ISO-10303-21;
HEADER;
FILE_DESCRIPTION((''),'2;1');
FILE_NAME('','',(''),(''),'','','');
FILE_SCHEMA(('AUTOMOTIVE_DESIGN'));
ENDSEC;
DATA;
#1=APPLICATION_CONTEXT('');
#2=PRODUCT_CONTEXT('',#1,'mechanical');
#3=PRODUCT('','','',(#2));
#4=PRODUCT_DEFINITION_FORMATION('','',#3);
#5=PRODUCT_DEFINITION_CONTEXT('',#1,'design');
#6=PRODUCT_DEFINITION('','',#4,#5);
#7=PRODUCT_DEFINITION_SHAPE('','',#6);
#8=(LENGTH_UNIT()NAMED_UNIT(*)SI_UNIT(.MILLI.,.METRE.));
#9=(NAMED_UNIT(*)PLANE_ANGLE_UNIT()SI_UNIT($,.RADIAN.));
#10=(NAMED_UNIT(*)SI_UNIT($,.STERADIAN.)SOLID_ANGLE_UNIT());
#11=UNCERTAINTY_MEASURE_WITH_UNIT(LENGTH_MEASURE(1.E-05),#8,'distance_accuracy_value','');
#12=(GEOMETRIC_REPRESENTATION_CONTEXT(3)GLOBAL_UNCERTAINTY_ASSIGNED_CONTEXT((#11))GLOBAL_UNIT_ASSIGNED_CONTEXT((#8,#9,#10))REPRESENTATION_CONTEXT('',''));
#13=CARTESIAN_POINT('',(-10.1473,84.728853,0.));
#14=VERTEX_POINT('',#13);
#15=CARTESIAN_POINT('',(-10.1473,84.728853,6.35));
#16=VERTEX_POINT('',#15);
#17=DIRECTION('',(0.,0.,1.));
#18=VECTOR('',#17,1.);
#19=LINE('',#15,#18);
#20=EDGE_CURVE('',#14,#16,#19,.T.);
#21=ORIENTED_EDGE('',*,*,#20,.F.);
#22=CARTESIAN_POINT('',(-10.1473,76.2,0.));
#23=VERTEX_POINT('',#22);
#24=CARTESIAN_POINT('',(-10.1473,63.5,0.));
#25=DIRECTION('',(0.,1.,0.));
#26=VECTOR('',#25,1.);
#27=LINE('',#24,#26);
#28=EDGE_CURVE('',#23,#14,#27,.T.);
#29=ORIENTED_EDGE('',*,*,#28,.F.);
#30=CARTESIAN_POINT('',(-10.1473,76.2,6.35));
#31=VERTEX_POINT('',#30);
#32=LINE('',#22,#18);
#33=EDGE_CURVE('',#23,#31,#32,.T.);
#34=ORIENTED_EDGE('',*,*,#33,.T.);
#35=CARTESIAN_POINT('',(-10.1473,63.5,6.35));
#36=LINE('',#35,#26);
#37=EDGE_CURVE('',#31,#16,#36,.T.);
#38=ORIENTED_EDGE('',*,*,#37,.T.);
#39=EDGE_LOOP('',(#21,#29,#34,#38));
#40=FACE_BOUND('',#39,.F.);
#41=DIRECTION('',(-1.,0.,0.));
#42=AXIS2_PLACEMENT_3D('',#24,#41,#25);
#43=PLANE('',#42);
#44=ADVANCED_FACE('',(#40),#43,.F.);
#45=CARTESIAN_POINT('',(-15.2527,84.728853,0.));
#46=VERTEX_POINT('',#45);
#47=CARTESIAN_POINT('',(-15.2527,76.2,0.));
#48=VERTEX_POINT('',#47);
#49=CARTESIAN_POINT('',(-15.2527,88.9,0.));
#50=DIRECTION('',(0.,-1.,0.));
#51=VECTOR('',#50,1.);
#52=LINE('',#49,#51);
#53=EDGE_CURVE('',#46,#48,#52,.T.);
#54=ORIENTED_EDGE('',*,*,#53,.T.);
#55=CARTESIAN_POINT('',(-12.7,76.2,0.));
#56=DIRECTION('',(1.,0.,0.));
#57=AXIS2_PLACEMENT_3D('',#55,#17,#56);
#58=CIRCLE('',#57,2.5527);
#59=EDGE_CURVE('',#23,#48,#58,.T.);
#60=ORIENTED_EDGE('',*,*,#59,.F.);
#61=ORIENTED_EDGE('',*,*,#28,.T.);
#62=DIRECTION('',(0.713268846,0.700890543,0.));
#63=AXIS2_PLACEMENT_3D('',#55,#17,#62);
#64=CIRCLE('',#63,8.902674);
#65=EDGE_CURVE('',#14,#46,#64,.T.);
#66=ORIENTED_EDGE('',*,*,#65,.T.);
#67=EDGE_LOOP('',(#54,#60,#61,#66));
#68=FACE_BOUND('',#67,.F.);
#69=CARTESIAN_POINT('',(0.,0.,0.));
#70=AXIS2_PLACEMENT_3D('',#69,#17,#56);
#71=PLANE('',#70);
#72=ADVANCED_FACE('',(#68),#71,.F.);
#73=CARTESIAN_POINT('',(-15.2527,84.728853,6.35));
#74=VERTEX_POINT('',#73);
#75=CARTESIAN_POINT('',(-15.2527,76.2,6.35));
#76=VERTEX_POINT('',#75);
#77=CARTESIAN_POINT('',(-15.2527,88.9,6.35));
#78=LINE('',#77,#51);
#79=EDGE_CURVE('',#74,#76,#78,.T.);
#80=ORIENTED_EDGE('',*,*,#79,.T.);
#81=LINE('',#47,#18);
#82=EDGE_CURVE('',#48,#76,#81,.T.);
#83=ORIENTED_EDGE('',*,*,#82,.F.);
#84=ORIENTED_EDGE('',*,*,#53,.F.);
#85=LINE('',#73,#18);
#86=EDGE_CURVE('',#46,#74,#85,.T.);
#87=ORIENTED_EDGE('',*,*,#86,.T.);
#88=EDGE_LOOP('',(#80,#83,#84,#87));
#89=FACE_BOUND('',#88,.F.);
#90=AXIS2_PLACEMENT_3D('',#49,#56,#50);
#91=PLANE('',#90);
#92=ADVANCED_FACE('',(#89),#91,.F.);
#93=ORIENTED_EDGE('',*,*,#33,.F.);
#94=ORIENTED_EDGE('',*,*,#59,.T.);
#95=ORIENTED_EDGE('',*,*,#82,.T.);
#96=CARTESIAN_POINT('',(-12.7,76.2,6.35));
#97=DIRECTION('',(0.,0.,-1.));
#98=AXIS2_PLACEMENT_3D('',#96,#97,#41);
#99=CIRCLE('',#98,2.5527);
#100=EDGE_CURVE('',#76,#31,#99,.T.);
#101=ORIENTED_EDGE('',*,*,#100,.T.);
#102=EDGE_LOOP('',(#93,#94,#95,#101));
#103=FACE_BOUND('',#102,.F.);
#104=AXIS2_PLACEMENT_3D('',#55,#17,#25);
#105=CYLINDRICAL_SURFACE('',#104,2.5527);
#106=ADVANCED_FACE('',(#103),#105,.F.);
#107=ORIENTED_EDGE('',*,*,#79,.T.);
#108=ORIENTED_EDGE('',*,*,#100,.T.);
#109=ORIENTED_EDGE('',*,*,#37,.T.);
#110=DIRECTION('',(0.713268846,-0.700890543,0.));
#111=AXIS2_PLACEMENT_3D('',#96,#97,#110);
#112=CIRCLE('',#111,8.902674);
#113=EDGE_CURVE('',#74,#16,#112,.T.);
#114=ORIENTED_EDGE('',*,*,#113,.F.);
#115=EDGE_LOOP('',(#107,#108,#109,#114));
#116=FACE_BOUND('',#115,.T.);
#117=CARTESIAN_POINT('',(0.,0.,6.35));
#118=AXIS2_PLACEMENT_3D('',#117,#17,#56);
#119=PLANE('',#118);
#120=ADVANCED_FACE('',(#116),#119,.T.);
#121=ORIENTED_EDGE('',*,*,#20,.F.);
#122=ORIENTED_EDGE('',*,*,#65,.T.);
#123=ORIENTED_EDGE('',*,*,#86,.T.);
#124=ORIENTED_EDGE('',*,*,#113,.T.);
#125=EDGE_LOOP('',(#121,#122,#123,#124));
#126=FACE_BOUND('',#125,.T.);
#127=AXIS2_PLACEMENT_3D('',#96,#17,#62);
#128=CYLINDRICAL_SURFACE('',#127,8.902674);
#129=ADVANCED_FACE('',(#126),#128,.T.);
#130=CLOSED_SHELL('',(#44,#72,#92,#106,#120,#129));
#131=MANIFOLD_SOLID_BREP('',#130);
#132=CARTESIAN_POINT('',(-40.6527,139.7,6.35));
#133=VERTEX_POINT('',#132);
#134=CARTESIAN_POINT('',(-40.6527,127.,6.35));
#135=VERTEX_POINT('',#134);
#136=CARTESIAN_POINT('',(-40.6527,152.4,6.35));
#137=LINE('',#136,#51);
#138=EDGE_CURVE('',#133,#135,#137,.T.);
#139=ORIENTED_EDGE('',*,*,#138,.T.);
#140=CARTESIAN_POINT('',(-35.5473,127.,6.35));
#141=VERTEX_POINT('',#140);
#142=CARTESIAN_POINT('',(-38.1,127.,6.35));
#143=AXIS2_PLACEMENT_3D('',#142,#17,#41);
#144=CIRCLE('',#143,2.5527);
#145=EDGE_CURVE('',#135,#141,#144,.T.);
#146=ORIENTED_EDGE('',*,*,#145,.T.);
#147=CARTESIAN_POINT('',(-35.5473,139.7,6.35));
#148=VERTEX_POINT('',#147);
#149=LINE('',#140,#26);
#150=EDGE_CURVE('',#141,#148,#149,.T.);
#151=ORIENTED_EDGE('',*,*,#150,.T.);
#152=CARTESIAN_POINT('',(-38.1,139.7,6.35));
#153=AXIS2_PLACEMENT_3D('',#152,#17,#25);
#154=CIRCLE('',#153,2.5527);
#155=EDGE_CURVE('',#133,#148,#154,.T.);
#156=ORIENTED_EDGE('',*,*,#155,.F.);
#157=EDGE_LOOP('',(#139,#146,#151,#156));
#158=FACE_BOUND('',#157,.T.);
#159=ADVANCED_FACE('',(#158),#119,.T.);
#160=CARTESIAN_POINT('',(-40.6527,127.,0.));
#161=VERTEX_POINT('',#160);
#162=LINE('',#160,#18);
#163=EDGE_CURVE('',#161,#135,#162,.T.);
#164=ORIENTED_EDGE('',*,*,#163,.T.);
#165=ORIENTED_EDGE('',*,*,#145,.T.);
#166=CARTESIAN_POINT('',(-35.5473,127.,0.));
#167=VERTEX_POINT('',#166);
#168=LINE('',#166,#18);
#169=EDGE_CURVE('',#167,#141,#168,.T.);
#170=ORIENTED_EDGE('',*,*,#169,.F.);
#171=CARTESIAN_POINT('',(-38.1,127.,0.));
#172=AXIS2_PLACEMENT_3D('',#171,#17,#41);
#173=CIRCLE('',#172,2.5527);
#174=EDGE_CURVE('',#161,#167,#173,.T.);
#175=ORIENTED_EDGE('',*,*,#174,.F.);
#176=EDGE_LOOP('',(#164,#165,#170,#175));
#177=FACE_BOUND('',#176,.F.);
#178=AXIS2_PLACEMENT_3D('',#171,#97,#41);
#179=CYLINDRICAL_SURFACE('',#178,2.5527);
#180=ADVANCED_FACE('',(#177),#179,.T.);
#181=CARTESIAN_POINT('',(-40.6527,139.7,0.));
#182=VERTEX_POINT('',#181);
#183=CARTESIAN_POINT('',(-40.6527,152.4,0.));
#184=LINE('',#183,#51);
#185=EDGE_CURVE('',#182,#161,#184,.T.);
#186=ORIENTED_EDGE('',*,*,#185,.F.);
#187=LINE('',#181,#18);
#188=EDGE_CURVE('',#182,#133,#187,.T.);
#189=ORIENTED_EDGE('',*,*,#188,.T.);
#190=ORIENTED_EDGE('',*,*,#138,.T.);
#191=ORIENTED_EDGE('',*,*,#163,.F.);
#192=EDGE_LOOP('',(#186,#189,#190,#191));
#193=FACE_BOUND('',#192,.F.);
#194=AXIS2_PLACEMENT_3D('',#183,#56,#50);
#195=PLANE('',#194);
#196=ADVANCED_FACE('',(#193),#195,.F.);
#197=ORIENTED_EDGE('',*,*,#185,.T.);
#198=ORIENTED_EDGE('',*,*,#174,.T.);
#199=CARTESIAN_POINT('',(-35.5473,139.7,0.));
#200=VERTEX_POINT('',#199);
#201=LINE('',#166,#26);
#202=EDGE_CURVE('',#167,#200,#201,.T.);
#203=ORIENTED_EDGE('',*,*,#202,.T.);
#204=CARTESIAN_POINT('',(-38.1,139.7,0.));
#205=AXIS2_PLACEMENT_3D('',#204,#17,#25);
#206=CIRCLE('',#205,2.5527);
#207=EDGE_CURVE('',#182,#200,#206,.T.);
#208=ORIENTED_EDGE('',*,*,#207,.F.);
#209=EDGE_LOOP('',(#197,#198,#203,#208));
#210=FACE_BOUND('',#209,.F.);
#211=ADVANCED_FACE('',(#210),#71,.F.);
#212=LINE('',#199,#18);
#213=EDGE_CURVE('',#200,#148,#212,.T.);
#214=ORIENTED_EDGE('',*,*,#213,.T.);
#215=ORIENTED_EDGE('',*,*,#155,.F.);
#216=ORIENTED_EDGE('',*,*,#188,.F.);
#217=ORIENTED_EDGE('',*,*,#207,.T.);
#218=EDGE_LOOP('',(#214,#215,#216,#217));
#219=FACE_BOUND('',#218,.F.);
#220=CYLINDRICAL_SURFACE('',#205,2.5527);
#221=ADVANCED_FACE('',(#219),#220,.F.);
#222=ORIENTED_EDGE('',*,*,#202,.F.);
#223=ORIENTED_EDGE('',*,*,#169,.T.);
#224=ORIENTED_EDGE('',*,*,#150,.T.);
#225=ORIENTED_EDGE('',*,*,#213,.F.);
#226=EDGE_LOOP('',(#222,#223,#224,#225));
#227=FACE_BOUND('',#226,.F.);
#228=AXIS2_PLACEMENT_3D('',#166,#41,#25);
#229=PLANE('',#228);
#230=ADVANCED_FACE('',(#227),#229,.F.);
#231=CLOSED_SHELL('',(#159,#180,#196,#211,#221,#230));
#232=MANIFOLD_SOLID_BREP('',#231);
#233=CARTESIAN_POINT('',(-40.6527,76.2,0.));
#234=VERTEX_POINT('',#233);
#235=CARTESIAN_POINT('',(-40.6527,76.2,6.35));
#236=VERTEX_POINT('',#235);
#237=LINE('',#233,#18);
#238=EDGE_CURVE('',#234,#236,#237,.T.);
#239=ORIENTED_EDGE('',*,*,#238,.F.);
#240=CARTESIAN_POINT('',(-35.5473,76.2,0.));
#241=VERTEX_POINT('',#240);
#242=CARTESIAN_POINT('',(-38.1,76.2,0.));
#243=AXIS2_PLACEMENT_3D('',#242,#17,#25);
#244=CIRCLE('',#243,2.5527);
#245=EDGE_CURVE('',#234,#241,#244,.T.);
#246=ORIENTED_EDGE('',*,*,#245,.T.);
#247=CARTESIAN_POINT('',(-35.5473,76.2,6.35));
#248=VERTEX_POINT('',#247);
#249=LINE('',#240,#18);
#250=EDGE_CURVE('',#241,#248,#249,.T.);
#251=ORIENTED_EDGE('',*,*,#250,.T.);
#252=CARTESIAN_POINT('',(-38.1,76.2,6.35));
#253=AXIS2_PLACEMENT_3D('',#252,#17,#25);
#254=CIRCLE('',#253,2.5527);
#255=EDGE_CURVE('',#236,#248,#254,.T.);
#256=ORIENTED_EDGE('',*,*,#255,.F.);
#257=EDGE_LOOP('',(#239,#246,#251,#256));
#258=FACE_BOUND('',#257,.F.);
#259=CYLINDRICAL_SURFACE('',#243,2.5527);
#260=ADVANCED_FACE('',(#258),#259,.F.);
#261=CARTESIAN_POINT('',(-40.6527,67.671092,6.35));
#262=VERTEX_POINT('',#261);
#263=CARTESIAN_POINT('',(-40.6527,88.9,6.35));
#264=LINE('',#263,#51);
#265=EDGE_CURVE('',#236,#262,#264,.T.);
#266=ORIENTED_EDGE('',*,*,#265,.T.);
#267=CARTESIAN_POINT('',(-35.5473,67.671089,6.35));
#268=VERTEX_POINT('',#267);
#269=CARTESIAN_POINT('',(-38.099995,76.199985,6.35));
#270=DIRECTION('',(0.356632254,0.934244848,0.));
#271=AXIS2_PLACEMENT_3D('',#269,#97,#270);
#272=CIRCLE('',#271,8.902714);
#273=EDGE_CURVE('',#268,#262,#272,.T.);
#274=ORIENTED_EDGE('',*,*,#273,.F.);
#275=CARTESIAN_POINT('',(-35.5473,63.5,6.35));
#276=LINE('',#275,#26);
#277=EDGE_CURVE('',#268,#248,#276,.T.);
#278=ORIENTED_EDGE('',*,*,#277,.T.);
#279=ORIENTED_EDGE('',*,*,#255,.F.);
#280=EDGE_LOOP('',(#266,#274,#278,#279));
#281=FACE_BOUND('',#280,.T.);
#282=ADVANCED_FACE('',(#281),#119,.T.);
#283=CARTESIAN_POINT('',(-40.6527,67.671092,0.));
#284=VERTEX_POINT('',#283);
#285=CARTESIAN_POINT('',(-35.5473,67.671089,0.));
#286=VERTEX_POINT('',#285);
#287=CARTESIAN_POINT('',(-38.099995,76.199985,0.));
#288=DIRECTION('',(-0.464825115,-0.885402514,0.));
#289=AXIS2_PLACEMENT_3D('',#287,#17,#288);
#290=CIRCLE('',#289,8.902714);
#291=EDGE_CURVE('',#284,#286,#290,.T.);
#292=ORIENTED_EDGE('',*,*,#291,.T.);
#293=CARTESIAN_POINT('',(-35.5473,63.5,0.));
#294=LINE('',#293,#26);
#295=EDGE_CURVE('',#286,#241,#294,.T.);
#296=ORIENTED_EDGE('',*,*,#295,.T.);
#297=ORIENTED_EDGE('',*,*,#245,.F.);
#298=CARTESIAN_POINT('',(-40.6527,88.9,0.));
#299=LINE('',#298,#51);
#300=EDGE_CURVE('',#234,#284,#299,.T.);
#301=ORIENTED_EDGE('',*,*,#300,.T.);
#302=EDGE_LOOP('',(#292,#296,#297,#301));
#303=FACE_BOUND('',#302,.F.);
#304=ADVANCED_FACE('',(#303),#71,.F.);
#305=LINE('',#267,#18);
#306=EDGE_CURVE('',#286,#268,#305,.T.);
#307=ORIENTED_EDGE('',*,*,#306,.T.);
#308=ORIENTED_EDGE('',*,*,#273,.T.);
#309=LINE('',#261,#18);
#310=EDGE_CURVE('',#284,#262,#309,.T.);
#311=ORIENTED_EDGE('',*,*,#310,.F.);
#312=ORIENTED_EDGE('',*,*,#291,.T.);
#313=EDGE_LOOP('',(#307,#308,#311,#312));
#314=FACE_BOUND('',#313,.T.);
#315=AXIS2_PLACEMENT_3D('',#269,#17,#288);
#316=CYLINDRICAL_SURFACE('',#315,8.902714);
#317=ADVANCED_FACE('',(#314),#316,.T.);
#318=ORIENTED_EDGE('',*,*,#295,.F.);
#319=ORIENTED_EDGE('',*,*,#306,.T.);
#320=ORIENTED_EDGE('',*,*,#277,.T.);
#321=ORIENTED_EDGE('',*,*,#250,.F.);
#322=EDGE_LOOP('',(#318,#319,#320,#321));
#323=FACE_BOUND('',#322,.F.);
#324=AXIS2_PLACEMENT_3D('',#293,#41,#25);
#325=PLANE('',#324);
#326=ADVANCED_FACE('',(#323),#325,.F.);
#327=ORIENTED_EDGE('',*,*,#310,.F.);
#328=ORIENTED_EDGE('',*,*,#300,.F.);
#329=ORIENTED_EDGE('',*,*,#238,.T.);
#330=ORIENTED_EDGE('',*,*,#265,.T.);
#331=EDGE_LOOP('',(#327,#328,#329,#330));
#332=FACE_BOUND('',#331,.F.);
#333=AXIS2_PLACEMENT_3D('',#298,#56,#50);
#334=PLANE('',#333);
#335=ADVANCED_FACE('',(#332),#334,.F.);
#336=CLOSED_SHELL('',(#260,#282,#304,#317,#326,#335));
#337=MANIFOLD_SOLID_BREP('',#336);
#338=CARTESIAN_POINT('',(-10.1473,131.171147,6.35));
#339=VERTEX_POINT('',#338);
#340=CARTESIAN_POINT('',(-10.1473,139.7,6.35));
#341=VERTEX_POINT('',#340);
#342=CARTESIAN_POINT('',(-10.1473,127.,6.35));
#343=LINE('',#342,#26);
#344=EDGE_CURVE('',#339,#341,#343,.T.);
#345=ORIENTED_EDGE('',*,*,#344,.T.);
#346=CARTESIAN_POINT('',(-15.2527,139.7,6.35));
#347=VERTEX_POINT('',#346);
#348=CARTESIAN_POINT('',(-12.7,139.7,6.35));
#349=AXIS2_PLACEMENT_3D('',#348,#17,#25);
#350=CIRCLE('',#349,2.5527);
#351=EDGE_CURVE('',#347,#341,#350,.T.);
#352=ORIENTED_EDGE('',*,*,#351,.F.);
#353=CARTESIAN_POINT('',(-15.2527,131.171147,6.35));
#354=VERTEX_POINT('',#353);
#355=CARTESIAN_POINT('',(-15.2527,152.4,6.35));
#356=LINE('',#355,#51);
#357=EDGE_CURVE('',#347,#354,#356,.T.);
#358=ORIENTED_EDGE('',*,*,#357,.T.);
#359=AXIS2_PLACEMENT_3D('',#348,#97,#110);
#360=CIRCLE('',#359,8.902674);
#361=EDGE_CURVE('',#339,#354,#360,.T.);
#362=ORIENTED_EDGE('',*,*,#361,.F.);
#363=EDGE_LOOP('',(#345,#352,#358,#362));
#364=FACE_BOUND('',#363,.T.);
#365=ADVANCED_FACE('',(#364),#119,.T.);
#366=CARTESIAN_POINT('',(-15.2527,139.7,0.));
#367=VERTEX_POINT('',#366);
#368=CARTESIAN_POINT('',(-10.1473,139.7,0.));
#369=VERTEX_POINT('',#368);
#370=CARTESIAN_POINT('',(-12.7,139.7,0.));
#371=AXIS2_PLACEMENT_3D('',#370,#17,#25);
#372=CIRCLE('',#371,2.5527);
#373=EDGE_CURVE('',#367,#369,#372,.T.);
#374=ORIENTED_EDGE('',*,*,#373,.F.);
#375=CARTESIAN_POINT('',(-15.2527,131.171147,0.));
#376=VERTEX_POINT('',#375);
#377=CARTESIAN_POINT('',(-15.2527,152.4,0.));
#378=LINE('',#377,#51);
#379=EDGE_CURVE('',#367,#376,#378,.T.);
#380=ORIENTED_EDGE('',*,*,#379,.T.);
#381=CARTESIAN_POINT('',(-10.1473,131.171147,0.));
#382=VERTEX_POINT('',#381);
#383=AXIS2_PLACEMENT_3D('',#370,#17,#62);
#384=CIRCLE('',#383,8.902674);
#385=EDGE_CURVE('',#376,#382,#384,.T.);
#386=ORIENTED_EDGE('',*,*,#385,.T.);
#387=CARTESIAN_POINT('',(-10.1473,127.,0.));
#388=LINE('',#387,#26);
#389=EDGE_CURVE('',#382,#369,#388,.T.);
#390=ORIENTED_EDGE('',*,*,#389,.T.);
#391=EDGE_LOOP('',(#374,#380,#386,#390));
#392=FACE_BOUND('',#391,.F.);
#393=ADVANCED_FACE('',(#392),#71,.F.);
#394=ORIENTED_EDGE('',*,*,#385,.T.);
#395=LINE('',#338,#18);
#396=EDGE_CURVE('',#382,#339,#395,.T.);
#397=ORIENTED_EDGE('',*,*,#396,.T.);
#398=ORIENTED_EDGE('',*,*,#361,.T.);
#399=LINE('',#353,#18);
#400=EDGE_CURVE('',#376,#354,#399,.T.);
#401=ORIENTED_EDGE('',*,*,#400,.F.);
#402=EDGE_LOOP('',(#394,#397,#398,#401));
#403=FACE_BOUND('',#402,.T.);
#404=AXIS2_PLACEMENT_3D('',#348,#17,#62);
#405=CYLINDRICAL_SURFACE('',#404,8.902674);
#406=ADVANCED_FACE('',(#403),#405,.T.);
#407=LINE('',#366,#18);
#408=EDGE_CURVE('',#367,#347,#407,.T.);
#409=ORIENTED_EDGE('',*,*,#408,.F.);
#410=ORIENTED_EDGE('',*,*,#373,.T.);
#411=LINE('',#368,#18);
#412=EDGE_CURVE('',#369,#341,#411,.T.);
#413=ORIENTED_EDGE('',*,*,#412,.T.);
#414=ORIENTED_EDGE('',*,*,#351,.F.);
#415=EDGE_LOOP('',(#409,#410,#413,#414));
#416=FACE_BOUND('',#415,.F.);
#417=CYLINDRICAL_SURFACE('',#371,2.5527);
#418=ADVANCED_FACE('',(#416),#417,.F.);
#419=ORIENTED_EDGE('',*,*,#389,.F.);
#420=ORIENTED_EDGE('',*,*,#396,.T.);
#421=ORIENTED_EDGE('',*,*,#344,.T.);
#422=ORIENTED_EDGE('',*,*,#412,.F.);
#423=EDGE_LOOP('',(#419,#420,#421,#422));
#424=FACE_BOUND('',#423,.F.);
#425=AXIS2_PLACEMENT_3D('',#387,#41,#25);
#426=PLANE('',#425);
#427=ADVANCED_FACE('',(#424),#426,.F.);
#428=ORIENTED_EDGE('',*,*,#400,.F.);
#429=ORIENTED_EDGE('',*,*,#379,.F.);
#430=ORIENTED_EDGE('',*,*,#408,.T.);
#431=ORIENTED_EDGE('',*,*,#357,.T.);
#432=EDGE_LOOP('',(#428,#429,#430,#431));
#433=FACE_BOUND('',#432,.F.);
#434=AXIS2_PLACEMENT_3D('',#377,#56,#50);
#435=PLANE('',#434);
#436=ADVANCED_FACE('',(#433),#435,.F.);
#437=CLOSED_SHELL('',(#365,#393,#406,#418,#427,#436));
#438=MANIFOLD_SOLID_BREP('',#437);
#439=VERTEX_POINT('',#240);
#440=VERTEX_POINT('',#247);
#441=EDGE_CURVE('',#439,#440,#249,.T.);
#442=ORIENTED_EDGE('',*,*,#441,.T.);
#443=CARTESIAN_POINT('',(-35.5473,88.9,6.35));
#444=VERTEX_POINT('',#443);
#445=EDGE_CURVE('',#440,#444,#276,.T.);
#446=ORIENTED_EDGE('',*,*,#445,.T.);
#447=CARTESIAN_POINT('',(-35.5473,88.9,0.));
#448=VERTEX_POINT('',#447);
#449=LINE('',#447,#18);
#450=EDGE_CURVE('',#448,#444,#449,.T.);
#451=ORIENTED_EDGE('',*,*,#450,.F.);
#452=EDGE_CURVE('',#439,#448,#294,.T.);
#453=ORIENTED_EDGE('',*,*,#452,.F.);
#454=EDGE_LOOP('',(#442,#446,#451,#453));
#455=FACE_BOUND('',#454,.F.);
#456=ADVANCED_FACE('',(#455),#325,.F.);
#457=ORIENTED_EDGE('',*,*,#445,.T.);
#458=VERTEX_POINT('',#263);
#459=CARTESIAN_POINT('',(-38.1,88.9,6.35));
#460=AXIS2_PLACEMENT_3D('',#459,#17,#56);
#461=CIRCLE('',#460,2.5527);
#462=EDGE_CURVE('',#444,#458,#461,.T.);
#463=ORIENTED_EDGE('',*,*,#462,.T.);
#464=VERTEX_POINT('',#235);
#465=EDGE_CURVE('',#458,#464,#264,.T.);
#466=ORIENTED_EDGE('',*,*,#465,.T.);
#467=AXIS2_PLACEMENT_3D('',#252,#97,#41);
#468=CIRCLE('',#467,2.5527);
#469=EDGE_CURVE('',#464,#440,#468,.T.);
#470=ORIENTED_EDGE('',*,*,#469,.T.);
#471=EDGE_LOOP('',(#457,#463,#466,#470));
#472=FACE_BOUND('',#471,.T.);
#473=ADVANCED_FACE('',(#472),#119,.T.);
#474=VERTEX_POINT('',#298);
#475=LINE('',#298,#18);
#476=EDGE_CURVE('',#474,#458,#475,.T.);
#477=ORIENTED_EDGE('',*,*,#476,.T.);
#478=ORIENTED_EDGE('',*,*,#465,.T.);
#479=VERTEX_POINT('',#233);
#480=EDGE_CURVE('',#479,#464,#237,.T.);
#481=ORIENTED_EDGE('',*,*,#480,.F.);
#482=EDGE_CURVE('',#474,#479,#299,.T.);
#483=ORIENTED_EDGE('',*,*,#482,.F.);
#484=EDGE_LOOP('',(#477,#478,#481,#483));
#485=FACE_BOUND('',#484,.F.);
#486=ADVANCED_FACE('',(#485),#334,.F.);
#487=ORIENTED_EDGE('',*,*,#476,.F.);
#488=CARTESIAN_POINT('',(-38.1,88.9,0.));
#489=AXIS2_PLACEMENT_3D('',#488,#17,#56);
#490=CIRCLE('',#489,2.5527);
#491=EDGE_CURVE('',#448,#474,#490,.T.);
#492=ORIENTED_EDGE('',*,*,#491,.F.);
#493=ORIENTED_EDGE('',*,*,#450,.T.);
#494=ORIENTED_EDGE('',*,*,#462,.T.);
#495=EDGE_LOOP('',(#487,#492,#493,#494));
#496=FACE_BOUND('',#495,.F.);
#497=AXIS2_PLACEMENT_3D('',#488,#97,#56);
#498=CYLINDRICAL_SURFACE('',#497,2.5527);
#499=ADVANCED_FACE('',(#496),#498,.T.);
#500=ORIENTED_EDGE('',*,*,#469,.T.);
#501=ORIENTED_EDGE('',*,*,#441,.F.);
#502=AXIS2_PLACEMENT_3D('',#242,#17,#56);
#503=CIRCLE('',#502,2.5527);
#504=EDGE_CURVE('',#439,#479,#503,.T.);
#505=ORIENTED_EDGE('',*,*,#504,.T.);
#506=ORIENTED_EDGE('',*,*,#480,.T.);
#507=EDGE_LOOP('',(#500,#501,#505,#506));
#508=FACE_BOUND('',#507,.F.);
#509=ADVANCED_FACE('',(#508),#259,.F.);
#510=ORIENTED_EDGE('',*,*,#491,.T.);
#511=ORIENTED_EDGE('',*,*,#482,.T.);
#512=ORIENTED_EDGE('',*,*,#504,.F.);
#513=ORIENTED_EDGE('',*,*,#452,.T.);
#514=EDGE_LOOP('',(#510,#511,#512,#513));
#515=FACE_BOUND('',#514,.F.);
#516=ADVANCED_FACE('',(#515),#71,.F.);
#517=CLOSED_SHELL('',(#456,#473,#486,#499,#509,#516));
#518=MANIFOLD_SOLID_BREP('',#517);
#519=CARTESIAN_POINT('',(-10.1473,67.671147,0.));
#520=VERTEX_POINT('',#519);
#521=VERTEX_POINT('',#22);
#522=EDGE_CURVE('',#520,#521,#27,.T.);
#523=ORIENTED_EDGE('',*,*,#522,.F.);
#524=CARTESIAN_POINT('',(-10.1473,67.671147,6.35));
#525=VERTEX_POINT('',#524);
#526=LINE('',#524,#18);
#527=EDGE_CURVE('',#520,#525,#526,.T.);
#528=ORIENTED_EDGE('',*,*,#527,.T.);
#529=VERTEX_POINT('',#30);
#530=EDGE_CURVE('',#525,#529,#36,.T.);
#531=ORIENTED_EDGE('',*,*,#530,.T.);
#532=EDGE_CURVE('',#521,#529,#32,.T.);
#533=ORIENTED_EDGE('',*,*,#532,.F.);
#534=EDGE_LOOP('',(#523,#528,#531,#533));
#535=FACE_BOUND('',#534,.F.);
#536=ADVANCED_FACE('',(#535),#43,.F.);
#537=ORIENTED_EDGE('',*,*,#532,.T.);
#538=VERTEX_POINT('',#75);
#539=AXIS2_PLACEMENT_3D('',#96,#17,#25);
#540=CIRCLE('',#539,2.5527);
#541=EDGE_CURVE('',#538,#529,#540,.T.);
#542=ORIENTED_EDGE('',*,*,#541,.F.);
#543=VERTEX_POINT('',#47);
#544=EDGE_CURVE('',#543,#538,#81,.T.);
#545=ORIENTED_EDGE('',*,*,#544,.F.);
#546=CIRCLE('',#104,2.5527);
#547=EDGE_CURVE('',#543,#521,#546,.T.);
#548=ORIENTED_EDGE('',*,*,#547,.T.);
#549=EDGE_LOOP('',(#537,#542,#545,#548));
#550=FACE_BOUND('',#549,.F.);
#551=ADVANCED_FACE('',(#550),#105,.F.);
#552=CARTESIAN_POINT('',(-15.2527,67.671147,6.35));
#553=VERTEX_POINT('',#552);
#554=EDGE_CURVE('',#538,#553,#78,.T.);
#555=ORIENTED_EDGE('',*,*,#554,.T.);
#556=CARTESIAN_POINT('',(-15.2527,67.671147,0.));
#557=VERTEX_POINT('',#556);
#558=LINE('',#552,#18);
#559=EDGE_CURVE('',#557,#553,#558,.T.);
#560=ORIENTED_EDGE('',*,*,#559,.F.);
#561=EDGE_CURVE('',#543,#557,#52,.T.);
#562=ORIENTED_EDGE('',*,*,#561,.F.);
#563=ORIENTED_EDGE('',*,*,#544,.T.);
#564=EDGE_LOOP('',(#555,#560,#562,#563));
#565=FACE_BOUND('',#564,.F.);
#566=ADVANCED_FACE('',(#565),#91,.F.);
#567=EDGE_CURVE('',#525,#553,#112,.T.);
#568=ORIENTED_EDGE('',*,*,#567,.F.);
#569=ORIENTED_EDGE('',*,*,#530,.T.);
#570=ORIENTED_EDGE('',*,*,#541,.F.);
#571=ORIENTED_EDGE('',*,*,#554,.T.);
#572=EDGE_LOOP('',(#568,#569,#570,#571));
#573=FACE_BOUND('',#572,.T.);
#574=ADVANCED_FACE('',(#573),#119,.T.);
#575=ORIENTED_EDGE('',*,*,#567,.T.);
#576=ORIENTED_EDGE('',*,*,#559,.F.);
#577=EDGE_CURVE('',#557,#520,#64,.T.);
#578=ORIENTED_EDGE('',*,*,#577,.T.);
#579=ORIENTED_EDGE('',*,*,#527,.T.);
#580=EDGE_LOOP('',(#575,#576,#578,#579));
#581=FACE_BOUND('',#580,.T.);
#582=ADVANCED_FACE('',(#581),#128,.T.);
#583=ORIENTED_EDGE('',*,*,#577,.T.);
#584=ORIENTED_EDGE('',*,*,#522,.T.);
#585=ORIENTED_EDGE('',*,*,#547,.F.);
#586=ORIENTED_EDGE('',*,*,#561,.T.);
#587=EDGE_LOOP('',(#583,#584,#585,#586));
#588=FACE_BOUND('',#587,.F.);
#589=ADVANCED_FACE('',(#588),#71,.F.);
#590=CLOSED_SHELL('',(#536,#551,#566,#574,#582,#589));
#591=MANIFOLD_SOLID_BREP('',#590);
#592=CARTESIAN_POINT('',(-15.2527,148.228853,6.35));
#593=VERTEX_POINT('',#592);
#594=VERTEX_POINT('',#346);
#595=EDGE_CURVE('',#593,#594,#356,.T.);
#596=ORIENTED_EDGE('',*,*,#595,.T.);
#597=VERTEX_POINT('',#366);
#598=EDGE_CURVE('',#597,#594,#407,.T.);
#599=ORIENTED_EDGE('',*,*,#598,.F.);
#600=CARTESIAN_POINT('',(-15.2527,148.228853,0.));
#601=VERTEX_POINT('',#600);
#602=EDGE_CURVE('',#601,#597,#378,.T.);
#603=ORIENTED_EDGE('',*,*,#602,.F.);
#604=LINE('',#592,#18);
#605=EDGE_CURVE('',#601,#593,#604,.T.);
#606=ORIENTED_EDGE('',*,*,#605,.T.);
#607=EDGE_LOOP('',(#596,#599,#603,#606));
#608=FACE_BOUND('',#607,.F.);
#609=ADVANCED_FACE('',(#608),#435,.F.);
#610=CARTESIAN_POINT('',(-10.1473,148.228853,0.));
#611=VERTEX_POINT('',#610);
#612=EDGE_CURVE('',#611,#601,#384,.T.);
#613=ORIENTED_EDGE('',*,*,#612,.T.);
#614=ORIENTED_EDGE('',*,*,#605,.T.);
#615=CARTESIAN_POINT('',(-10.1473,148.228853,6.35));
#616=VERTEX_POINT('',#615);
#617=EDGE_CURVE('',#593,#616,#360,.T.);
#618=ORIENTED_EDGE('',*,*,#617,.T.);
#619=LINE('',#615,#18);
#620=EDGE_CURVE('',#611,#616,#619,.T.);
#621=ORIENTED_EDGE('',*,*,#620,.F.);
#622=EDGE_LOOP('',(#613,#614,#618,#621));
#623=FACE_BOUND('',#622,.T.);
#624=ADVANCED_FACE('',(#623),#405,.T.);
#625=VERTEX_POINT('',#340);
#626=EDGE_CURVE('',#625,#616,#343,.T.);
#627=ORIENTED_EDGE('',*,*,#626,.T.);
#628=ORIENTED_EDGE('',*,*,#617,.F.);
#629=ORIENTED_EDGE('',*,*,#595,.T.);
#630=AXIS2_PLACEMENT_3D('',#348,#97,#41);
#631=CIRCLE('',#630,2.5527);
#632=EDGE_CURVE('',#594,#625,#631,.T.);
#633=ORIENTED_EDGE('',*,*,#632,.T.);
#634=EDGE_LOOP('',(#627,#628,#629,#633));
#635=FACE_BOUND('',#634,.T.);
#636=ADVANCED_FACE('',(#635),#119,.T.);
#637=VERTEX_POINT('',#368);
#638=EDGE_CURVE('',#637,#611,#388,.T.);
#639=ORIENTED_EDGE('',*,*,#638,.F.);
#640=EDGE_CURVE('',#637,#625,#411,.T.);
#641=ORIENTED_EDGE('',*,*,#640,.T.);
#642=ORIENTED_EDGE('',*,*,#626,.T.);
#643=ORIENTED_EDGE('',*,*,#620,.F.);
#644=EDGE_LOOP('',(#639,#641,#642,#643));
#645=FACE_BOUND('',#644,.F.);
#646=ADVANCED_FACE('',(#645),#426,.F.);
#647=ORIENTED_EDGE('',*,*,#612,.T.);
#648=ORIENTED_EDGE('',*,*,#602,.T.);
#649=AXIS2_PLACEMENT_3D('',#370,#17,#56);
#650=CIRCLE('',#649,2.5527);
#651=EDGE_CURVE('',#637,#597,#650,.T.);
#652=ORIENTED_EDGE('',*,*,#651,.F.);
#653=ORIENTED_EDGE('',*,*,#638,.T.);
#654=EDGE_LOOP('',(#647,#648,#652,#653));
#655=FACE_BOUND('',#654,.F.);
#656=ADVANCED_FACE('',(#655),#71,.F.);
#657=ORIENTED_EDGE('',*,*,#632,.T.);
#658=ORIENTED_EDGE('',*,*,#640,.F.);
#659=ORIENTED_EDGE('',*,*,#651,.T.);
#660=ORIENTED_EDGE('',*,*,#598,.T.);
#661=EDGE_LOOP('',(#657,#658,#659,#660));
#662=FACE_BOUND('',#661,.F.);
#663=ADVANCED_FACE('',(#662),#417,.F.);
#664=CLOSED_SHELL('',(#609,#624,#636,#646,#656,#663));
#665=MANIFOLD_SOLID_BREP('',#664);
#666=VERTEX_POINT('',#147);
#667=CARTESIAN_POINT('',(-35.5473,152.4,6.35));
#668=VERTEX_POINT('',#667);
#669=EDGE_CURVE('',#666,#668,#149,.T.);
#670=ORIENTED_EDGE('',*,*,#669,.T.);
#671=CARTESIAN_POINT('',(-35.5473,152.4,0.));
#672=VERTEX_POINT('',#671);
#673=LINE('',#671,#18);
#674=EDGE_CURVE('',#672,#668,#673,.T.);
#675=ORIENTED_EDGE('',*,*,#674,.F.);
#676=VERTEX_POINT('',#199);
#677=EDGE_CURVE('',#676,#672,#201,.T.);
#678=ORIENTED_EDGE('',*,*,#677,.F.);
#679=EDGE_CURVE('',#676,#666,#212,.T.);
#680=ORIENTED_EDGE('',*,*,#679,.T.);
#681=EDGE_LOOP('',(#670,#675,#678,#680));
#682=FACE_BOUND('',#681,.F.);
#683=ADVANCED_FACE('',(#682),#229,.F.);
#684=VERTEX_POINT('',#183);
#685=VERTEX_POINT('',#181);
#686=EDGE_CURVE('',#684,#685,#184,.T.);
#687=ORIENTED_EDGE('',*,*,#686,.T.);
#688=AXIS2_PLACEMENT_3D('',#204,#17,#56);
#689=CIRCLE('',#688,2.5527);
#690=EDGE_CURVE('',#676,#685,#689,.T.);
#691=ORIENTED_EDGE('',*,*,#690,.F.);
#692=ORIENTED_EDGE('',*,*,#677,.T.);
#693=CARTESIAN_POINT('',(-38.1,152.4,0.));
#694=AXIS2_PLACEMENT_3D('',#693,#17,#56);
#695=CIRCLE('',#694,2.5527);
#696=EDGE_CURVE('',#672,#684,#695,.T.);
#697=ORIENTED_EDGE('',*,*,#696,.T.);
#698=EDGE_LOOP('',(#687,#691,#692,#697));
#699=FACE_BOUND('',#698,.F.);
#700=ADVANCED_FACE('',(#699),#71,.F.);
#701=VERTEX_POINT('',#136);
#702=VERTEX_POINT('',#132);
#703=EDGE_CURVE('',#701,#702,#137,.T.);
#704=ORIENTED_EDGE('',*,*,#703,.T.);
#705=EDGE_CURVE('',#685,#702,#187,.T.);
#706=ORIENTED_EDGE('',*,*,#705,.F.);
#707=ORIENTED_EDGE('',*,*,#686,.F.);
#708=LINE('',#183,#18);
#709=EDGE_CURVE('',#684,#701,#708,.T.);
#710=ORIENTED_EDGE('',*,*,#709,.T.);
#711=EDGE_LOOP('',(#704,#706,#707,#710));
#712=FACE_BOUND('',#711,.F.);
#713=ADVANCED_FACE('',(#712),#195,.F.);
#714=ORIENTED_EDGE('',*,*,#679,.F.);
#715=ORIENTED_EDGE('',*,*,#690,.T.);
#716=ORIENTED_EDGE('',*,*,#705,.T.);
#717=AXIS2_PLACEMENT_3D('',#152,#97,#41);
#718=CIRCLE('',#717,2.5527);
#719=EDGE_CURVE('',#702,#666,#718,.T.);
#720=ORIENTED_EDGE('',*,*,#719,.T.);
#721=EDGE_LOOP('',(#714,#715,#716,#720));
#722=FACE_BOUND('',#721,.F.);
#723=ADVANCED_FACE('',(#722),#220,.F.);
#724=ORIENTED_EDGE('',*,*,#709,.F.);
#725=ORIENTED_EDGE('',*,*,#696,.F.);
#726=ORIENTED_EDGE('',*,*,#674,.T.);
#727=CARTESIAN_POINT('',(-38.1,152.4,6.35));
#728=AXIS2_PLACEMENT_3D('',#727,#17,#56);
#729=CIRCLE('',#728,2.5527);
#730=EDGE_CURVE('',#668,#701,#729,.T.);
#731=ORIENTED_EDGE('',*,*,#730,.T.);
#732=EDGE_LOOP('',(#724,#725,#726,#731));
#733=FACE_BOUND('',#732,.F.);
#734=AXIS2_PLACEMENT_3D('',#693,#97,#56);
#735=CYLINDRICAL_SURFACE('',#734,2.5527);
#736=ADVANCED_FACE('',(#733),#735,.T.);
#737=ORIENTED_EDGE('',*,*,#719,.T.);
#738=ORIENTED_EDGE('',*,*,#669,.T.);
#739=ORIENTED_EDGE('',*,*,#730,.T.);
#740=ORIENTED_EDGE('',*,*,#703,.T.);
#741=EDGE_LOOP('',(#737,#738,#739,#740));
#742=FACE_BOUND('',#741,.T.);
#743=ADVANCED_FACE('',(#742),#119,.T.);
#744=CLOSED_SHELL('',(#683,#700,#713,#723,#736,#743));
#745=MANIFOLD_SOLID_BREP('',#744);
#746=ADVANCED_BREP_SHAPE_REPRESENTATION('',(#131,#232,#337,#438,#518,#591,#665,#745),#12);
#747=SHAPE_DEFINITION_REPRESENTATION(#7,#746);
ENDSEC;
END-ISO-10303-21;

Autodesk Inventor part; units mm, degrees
ref_plane "YZ Plane" through (0, 0, 0) normal (1, 0, 0) x (0, 1, 0)
ref_plane "XZ Plane" through (0, 0, 0) normal (0, 1, 0) x (-1, 0, 0)
ref_plane "XY Plane" through (0, 0, 0) normal (0, 0, 1) x (1, 0, 0)
sketch "Sketch1" plane through (0, 0, 0) normal (0, 0, 1) x (1, 0, 0)
  line L0 (0, 0) -> (-50.8, 0) construction
  line L1 (-50.8, 0) -> (-50.8, 381) construction
  line L2 (-50.8, 381) -> (0, 381) construction
  line L3 (0, 381) -> (0, 0) construction
  circle A0 centre (-50.8, 431.8) radius 11.1125 construction
  line L4 (-50.8, 353.7099) -> (-298.4703, 0) construction
  line L5 (-298.4703, 0) -> (-267.4626, 0) construction
  line L6 (-267.4626, 0) -> (-50.8, 309.4263) construction
  dimension "d0" = 50.8
  dimension "d1" = 381
  dimension "d2" = 22.225
  dimension "d3" = 431.8
  dimension "d4" = 50.8
  dimension "d5" = 431.8
  dimension "d6" = 25.4
  dimension "d7" = 35
sketch "Sketch2" plane through (0, 0, 0) normal (0, 0, 1) x (1, 0, 0)
  line L0 (-267.4626, 0) -> (-50.8, 309.4263) construction
  line L1 (-50.8, 353.7099) -> (-298.4703, 0) construction
  line L2 (-50.8, 0) -> (-50.8, 381) construction
  line L3 (0, 381) -> (0, 0) construction
  line L4 (-50.8, 381) -> (0, 381) construction
  circle A0 centre (-50.8, 431.8) radius 11.1125 construction
  line L5 (0, 0) -> (-50.8, 0) construction
  line L6 (-298.4703, 0) -> (-267.4626, 0) construction
  circle A1 centre (-88.9, 38.1) radius 30.48 construction
  circle A2 centre (-88.9, 38.1) radius 6.35 construction
  circle A3 centre (-99.4866, 89.0824) radius 45.72 construction
  circle A4 centre (-99.4866, 89.0824) radius 11.43 construction
  circle A5 centre (-157.9039, 88.5265) radius 46.99 construction
  circle A6 centre (-157.9039, 88.5265) radius 12.7 construction
  circle A7 centre (-140.3916, 141.5914) radius 43.18 construction
  circle A8 centre (-99.4866, 89.0824) radius 14.2875
  circle A9 centre (-157.9039, 88.5265) radius 14.2875
  circle A10 centre (-140.3916, 141.5914) radius 14.2875
  circle A11 centre (-50.8, 431.8) radius 54.5719 construction
  line L7 (-50.8, 177.8) -> (0, 177.8)
  circle A12 centre (-140.3916, 141.5914) radius 20.6375 construction
  circle A13 centre (-157.9039, 88.5265) radius 20.6375 construction
  circle A14 centre (-99.4866, 89.0824) radius 20.6375 construction
  circle A15 centre (-88.9, 38.1) radius 25.4 construction
  line L8 (-50.8, 177.8) -> (-143.8598, 161.9354)
  line L9 (-74.6041, 11.1805) -> (0, 50.8)
  line L10 (0, 177.8) -> (0, 50.8)
  arc A16 (-143.8598, 161.9354) -> (-158.347, 131.4176) centre (-140.3916, 141.5914) ccw
  arc A17 (-117.4357, 99.2675) -> (-118.6127, 96.8346) centre (-99.4866, 89.0824) ccw
  arc A18 (-118.8586, 43.7135) -> (-74.6041, 11.1805) centre (-88.9, 38.1) ccw
  line L11 (-38.1, 152.4) -> (-38.1, 127) construction
  line L12 (-40.6527, 152.4) -> (-40.6527, 127)
  line L13 (-35.5473, 127) -> (-35.5473, 152.4)
  arc A19 (-35.5473, 152.4) -> (-40.6527, 152.4) centre (-38.1, 152.4) ccw
  arc A20 (-40.6527, 127) -> (-35.5473, 127) centre (-38.1, 127) ccw
  line L14 (-12.7, 152.4) -> (-12.7, 127) construction
  line L15 (-15.2527, 152.4) -> (-15.2527, 127)
  line L16 (-10.1473, 127) -> (-10.1473, 152.4)
  arc A21 (-10.1473, 152.4) -> (-15.2527, 152.4) centre (-12.7, 152.4) ccw
  arc A22 (-15.2527, 127) -> (-10.1473, 127) centre (-12.7, 127) ccw
  line L17 (-38.1, 139.7) -> (-12.7, 139.7) construction
  line L18 (-38.1, 88.9) -> (-38.1, 63.5) construction
  line L19 (-40.6527, 88.9) -> (-40.6527, 63.5)
  line L20 (-35.5473, 63.5) -> (-35.5473, 88.9)
  arc A23 (-35.5473, 88.9) -> (-40.6527, 88.9) centre (-38.1, 88.9) ccw
  arc A24 (-40.6527, 63.5) -> (-35.5473, 63.5) centre (-38.1, 63.5) ccw
  line L21 (-12.7, 88.9) -> (-12.7, 63.5) construction
  line L22 (-15.2527, 88.9) -> (-15.2527, 63.5)
  line L23 (-10.1473, 63.5) -> (-10.1473, 88.9)
  arc A25 (-10.1473, 88.9) -> (-15.2527, 88.9) centre (-12.7, 88.9) ccw
  arc A26 (-15.2527, 63.5) -> (-10.1473, 63.5) centre (-12.7, 63.5) ccw
  line L24 (-38.1, 76.2) -> (-12.7, 76.2) construction
  circle A27 centre (-88.9, 38.1) radius 10.795
  point P0 (-88.9, 63.5)
  point P1 (-110.897, 50.8)
  point P2 (-110.897, 25.4)
  point P3 (-88.9, 12.7)
  point P4 (-66.903, 25.4)
  point P5 (-66.903, 50.8)
  point P6 (-25.4, 139.7)
  point P7 (-25.4, 177.8)
  point P8 (-25.4, 76.2)
  point P9 (-38.1, 168.275)
  point P10 (-12.7, 168.275)
  dimension "d25" = 50.8
  dimension "d8" = 60.96
  dimension "d9" = 12.7
  dimension "d10" = 91.44
  dimension "d11" = 38.1
  dimension "d12" = 38.1
  dimension "d13" = 22.86
  dimension "d14" = 93.98
  dimension "d15" = 25.4
  dimension "d16" = 86.36
  dimension "d22" = 28.575
  dimension "d23" = 109.1438
  dimension "d24" = 6.35
  dimension "d28" = 360
  dimension "d30" = 177.8
  dimension "d31" = 50.8
  dimension "d32" = 5.1054
  dimension "d33" = 25.4
  dimension "d34" = 38.1
  dimension "d35" = 25.4
  dimension "d36" = 5.1054
  dimension "d37" = 25.4
  dimension "d38" = 25.4
  dimension "d39" = 63.5
  dimension "d42" = 21.59
  dimension "d50" = 9.525
extrude "Extrusion1" add sketch "Sketch2" along normal blind 6.35 contours A19 L13 A20 L12 | A21 L16 A22 L15 | A23 L20 A24 L19 | A25 L23 A26 L22
hole "Hole1" at (-88.9, 63.5, 0) at (-110.897, 50.8, 0) at (-110.897, 25.4, 0) at (-88.9, 12.7, 0) at (-66.903, 25.4, 0) at (-66.903, 50.8, 0) at (-38.1, 139.7, 0) at (-12.7, 139.7, 0) at (-38.1, 76.2, 0) at (-12.7, 76.2, 0) direction (0, 0, 1) diameter 5.1054 end through all clearance for "Flat Head Machine Screw (82)" size "#10" standard "Ansi Unified Screw Threads"
fillet "Fillet1" [suppressed]
hole "Hole2" at (-38.1, 168.275, 0) at (-12.7, 168.275, 0) direction (0, 0, 1) diameter 3.9624 end through all thread size "10-32 UNF" class "2B" standard "ANSI Unified Screw Threads"
sketch "Sketch4" plane through (0, 0, 6.35) normal (0, 0, 1) x (1, 0, 0)
  arc A0 (-35.5473, 76.2) -> (-40.6527, 76.2) centre (-38.1, 76.2) ccw construction
  arc A1 (-35.5473, 139.7) -> (-40.6527, 139.7) centre (-38.1, 139.7) ccw construction
  arc A2 (-10.1473, 139.7) -> (-15.2527, 139.7) centre (-12.7, 139.7) ccw construction
  arc A3 (-10.1473, 76.2) -> (-15.2527, 76.2) centre (-12.7, 76.2) ccw construction
  line L0 (-35.5473, 139.7) -> (-35.5473, 152.4) projected
  arc A4 (-35.5473, 152.4) -> (-40.6527, 152.4) centre (-38.1, 152.4) ccw projected
  line L1 (-40.6527, 152.4) -> (-40.6527, 139.7) projected
  arc A5 (-40.6527, 139.7) -> (-35.5473, 139.7) centre (-38.1, 139.7) ccw projected
  line L2 (-40.6527, 139.7) -> (-40.6527, 127) projected
  arc A6 (-40.6527, 127) -> (-35.5473, 127) centre (-38.1, 127) ccw projected
  line L3 (-35.5473, 127) -> (-35.5473, 139.7) projected
  line L4 (-35.5473, 76.2) -> (-35.5473, 88.9) projected
  arc A7 (-35.5473, 88.9) -> (-40.6527, 88.9) centre (-38.1, 88.9) ccw projected
  line L5 (-40.6527, 88.9) -> (-40.6527, 76.2) projected
  arc A8 (-40.6527, 76.2) -> (-35.5473, 76.2) centre (-38.1, 76.2) ccw projected
  line L6 (-40.6527, 76.2) -> (-40.6527, 63.5) projected
  arc A9 (-40.6527, 63.5) -> (-35.5473, 63.5) centre (-38.1, 63.5) ccw projected
  line L7 (-35.5473, 63.5) -> (-35.5473, 76.2) projected
  line L8 (-10.1473, 139.7) -> (-10.1473, 152.4) projected
  arc A10 (-10.1473, 152.4) -> (-15.2527, 152.4) centre (-12.7, 152.4) ccw projected
  line L9 (-15.2527, 152.4) -> (-15.2527, 139.7) projected
  arc A11 (-15.2527, 139.7) -> (-10.1473, 139.7) centre (-12.7, 139.7) ccw projected
  line L10 (-15.2527, 139.7) -> (-15.2527, 127) projected
  arc A12 (-15.2527, 127) -> (-10.1473, 127) centre (-12.7, 127) ccw projected
  line L11 (-10.1473, 127) -> (-10.1473, 139.7) projected
  line L12 (-10.1473, 76.2) -> (-10.1473, 88.9) projected
  arc A13 (-10.1473, 88.9) -> (-15.2527, 88.9) centre (-12.7, 88.9) ccw projected
  line L13 (-15.2527, 88.9) -> (-15.2527, 76.2) projected
  arc A14 (-15.2527, 76.2) -> (-10.1473, 76.2) centre (-12.7, 76.2) ccw projected
  line L14 (-15.2527, 76.2) -> (-15.2527, 63.5) projected
  arc A15 (-15.2527, 63.5) -> (-10.1473, 63.5) centre (-12.7, 63.5) ccw projected
  line L15 (-10.1473, 63.5) -> (-10.1473, 76.2) projected
  point P0 (0, 0)
  point P1 (-64.4644, 155.575)
hole "Hole3" at (-64.4644, 155.575, 6.35) direction (0, 0, -1) diameter 3.9624 end through all thread size "10-32 UNF" class "2B" standard "ANSI Unified Screw Threads"
sketch "Sketch3" plane through (0, 0, 6.35) normal (0, 0, 1) x (1, 0, 0)
  arc A0 (-35.5473, 76.2) -> (-40.6527, 76.2) centre (-38.1, 76.2) ccw construction
  arc A1 (-35.5473, 139.7) -> (-40.6527, 139.7) centre (-38.1, 139.7) ccw construction
  arc A2 (-10.1473, 139.7) -> (-15.2527, 139.7) centre (-12.7, 139.7) ccw construction
  arc A3 (-10.1473, 76.2) -> (-15.2527, 76.2) centre (-12.7, 76.2) ccw construction
  circle A4 centre (-101.6, 129.9906) radius 20.6375 construction
  arc A5 (-136.4593, 83.8492) -> (-111.3998, 184.5895) centre (-275.3417, 171.8837) ccw construction
  arc A6 (-88.8183, 197.2966) -> (-111.3998, 184.5895) centre (-97.155, 185.6935) ccw construction
  line L0 (-61.7546, 177.8517) -> (-94.3408, 201.2645) construction
  arc A7 (-56.2321, 173.8838) -> (-48.6735, 171.45) centre (-48.6735, 184.404) ccw construction
  line L1 (-48.6735, 171.45) -> (-6.604, 171.45) construction
  arc A8 (-6.35, 171.196) -> (-6.604, 171.45) centre (-6.604, 171.196) ccw
  line L2 (-6.35, 171.196) -> (-6.35, 54.7703) construction
  arc A9 (-6.4849, 54.546) -> (-6.35, 54.7703) centre (-6.604, 54.7703) ccw
  line L3 (-6.4849, 54.546) -> (-77.5824, 16.7888) construction
  arc A10 (-109.3468, 25.2865) -> (-77.5824, 16.7888) centre (-88.9, 38.1) ccw construction
  line L4 (-109.3468, 25.2865) -> (-136.4985, 68.613) construction
  arc A11 (-136.4593, 83.8492) -> (-136.4985, 68.613) centre (-124.3919, 76.2) ccw construction
  circle A12 centre (-97.155, 185.6935) radius 20.6375 construction
  circle A13 centre (-124.3919, 76.2) radius 20.6375 construction
  circle A14 centre (-38.1, 139.7) radius 8.9027 construction
  arc A15 (-10.1473, 139.7) -> (-15.2527, 139.7) centre (-12.7, 139.7) ccw construction
  circle A16 centre (-12.7, 139.7) radius 8.9027 construction
  arc A17 (-10.1473, 76.2) -> (-15.2527, 76.2) centre (-12.7, 76.2) ccw construction
  circle A18 centre (-12.7, 76.2) radius 8.9027 construction
  arc A19 (-35.5473, 76.2) -> (-40.6527, 76.2) centre (-38.1, 76.2) ccw construction
  circle A20 centre (-38.1, 76.2) radius 8.9027 construction
  circle A21 centre (-66.903, 50.8) radius 2.5527 construction
  circle A22 centre (-66.903, 50.8) radius 8.9027 construction
  circle A23 centre (-88.9, 63.5) radius 8.9027 construction
  circle A24 centre (-38.1, 168.275) radius 1.9812 construction
  circle A25 centre (-38.1, 168.275) radius 8.9027 construction
  circle A26 centre (-12.7, 168.275) radius 1.9812 construction
  circle A27 centre (-12.7, 168.275) radius 8.9027 construction
  line L5 (-101.6, 129.9906) -> (-38.1, 139.7) construction
  circle A28 centre (-88.9, 63.5) radius 2.5527 construction
  line L6 (-124.3919, 76.2) -> (-88.9, 63.5) construction
  line L7 (-88.9, 63.5) -> (-66.903, 50.8) construction
  line L8 (-66.903, 50.8) -> (-38.1, 76.2) construction
  arc A29 (-35.5473, 139.7) -> (-40.6527, 139.7) centre (-38.1, 139.7) ccw construction
  line L9 (-38.1, 139.7) -> (-38.1, 76.2) construction
  line L10 (-102.0799, 133.1291) -> (-38.5799, 142.8385) construction
  line L11 (-101.1201, 126.852) -> (-37.6201, 136.5615) construction
  line L12 (-41.275, 139.7) -> (-41.275, 77.6333) construction
  line L13 (-41.275, 77.6333) -> (-67.2915, 54.6905) construction
  line L14 (-67.2915, 54.6905) -> (-87.5606, 66.3929) construction
  line L15 (-87.5606, 66.3929) -> (-123.3222, 79.1894) construction
  line L16 (-34.925, 141.1333) -> (-34.925, 74.7667) construction
  line L17 (-34.925, 74.7667) -> (-66.5144, 46.9095) construction
  line L18 (-66.5144, 46.9095) -> (-90.2394, 60.6071) construction
  line L19 (-90.2394, 60.6071) -> (-125.4616, 73.2106) construction
  line L20 (-38.1, 139.7) -> (-38.1, 168.275) construction
  line L21 (-34.925, 107.95) -> (-6.35, 107.95) construction
  line L22 (-34.925, 111.125) -> (-6.35, 111.125) construction
  line L23 (-34.925, 104.775) -> (-6.35, 104.775) construction
  line L24 (-34.925, 139.7) -> (-34.925, 168.275) construction
  line L25 (-41.275, 139.7) -> (-41.275, 168.275) construction
  line L26 (-76.7242, 188.6072) -> (-56.2321, 173.8838)
  line L27 (-48.6735, 171.45) -> (-46.4173, 171.45)
  line L28 (-29.7827, 171.45) -> (-21.0173, 171.45)
  line L29 (-6.35, 162.0352) -> (-6.35, 145.9398)
  line L30 (-6.35, 133.4602) -> (-6.35, 111.125)
  line L31 (-6.35, 111.125) -> (-34.925, 111.125)
  line L32 (-34.925, 111.125) -> (-34.925, 131.3827)
  line L33 (-34.925, 148.0173) -> (-34.925, 159.9577)
  line L34 (-41.275, 159.9577) -> (-41.275, 148.0173)
  line L35 (-6.35, 104.775) -> (-34.925, 104.775)
  line L36 (-34.925, 104.775) -> (-34.925, 84.5173)
  line L37 (-6.35, 104.775) -> (-6.35, 82.4398)
  line L38 (-6.35, 69.9602) -> (-6.35, 54.7703)
  line L39 (-6.4849, 54.546) -> (-55.1495, 28.702)
  line L40 (-58.5648, 53.9198) -> (-42.2382, 68.3175)
  line L41 (-72.5184, 57.7083) -> (-80.1095, 62.091)
  line L42 (-62.7648, 58.6825) -> (-46.4381, 73.0802)
  line L43 (-95.6614, 69.2915) -> (-104.1226, 72.3192)
  line L44 (-41.275, 84.5173) -> (-41.275, 131.3827)
  line L45 (-45.8418, 135.3043) -> (-80.9626, 129.9342)
  line L46 (-81.9224, 136.2113) -> (-46.8016, 141.5814)
  arc A30 (-110.9157, 170.3133) -> (-76.7242, 188.6072) centre (-97.155, 185.6935) ccw
  arc A31 (-81.9224, 136.2113) -> (-112.7474, 147.3584) centre (-101.6, 129.9906) ccw
  arc A32 (-41.275, 148.0173) -> (-46.8016, 141.5814) centre (-38.1, 139.7) ccw
  arc A33 (-46.4173, 171.45) -> (-41.275, 159.9577) centre (-38.1, 168.275) ccw
  arc A34 (-56.2321, 173.8838) -> (-48.6735, 171.45) centre (-48.6735, 184.404) ccw
  arc A35 (-21.0173, 171.45) -> (-6.35, 162.0352) centre (-12.7, 168.275) ccw
  arc A36 (-6.35, 145.9398) -> (-6.35, 133.4602) centre (-12.7, 139.7) ccw
  arc A37 (-34.925, 131.3827) -> (-34.925, 148.0173) centre (-38.1, 139.7) ccw
  arc A38 (-119.4378, 119.6117) -> (-80.9626, 129.9342) centre (-101.6, 129.9906) ccw
  arc A39 (-104.1226, 72.3192) -> (-129.3429, 96.2348) centre (-124.3919, 76.2) ccw
  arc A40 (-80.1095, 62.091) -> (-95.6614, 69.2915) centre (-88.9, 63.5) ccw
  arc A41 (-62.7648, 58.6825) -> (-72.5184, 57.7083) centre (-66.903, 50.8) ccw
  arc A42 (-41.275, 84.5173) -> (-46.4381, 73.0802) centre (-38.1, 76.2) ccw
  arc A43 (-6.35, 82.4398) -> (-6.35, 69.9602) centre (-12.7, 76.2) ccw
  arc A44 (-62.7274, 42.9373) -> (-58.5648, 53.9198) centre (-66.903, 50.8) ccw
  arc A45 (-42.2382, 68.3175) -> (-34.925, 84.5173) centre (-38.1, 76.2) ccw
  arc A46 (-112.7474, 147.3584) -> (-110.9157, 170.3133) centre (-275.3417, 171.8837) ccw
  arc A47 (-129.3429, 96.2348) -> (-119.4378, 119.6117) centre (-275.3417, 171.8837) ccw
  arc A48 (-34.925, 159.9577) -> (-29.7827, 171.45) centre (-38.1, 168.275) ccw
  arc A49 (-45.8418, 135.3043) -> (-41.275, 131.3827) centre (-38.1, 139.7) ccw
  line L47 (-62.7134, 42.945) -> (-55.1495, 28.702)
  arc A50 (-128.5905, 55.9941) -> (-104.1226, 72.3192) centre (-124.3919, 76.2) ccw
  arc A51 (-129.3429, 96.2348) -> (-128.5905, 55.9941) centre (-124.3919, 76.2) ccw
  circle A52 centre (-64.4644, 155.575) radius 1.9812 construction
  circle A53 centre (-64.4644, 155.575) radius 8.9027 construction
  line L48 (-97.155, 185.6935) -> (-64.4644, 155.575) construction
  line L49 (-64.4644, 155.575) -> (-38.1, 168.275) construction
  line L50 (-95.0037, 188.0285) -> (-63.8992, 159.3714) construction
  line L51 (-63.8992, 159.3714) -> (-39.4779, 171.1354) construction
  line L52 (-36.7221, 165.4146) -> (-65.0295, 151.7786) construction
  line L53 (-65.0295, 151.7786) -> (-99.3063, 183.3585) construction
  line L54 (-84.3092, 169.5413) -> (-72.7326, 158.8756)
  line L55 (-80.0066, 174.2114) -> (-68.43, 163.5457)
  line L56 (-58.349, 162.045) -> (-46.9711, 167.5259)
  line L57 (-44.2153, 161.805) -> (-55.5932, 156.3241)
  arc A54 (-72.7326, 158.8756) -> (-55.5932, 156.3241) centre (-64.4644, 155.575) ccw
  arc A55 (-58.349, 162.045) -> (-68.43, 163.5457) centre (-64.4644, 155.575) ccw
  line L58 (-35.5473, 139.7) -> (-35.5473, 152.4) projected
  arc A56 (-35.5473, 152.4) -> (-40.6527, 152.4) centre (-38.1, 152.4) ccw projected
  line L59 (-40.6527, 152.4) -> (-40.6527, 139.7) projected
  arc A57 (-40.6527, 139.7) -> (-35.5473, 139.7) centre (-38.1, 139.7) ccw projected
  line L60 (-40.6527, 139.7) -> (-40.6527, 127) projected
  arc A58 (-40.6527, 127) -> (-35.5473, 127) centre (-38.1, 127) ccw projected
  line L61 (-35.5473, 127) -> (-35.5473, 139.7) projected
  line L62 (-35.5473, 76.2) -> (-35.5473, 88.9) projected
  arc A59 (-35.5473, 88.9) -> (-40.6527, 88.9) centre (-38.1, 88.9) ccw projected
  line L63 (-40.6527, 88.9) -> (-40.6527, 76.2) projected
  arc A60 (-40.6527, 76.2) -> (-35.5473, 76.2) centre (-38.1, 76.2) ccw projected
  line L64 (-40.6527, 76.2) -> (-40.6527, 63.5) projected
  arc A61 (-40.6527, 63.5) -> (-35.5473, 63.5) centre (-38.1, 63.5) ccw projected
  line L65 (-35.5473, 63.5) -> (-35.5473, 76.2) projected
  line L66 (-10.1473, 139.7) -> (-10.1473, 152.4) projected
  arc A62 (-10.1473, 152.4) -> (-15.2527, 152.4) centre (-12.7, 152.4) ccw projected
  line L67 (-15.2527, 152.4) -> (-15.2527, 139.7) projected
  arc A63 (-15.2527, 139.7) -> (-10.1473, 139.7) centre (-12.7, 139.7) ccw projected
  line L68 (-15.2527, 139.7) -> (-15.2527, 127) projected
  arc A64 (-15.2527, 127) -> (-10.1473, 127) centre (-12.7, 127) ccw projected
  line L69 (-10.1473, 127) -> (-10.1473, 139.7) projected
  line L70 (-10.1473, 76.2) -> (-10.1473, 88.9) projected
  arc A65 (-10.1473, 88.9) -> (-15.2527, 88.9) centre (-12.7, 88.9) ccw projected
  line L71 (-15.2527, 88.9) -> (-15.2527, 76.2) projected
  arc A66 (-15.2527, 76.2) -> (-10.1473, 76.2) centre (-12.7, 76.2) ccw projected
  line L72 (-15.2527, 76.2) -> (-15.2527, 63.5) projected
  arc A67 (-15.2527, 63.5) -> (-10.1473, 63.5) centre (-12.7, 63.5) ccw projected
  line L73 (-10.1473, 63.5) -> (-10.1473, 76.2) projected
  point P0 (0, 0)
  point P1 (-62.7133, 42.9448)
  dimension "d65" = 6.35
  dimension "d66" = 3.175
  dimension "d67" = 3.175
  dimension "d68" = 3.175
  dimension "d69" = 3.175
  dimension "d70" = 63.5
  dimension "d71" = 3.175
  dimension "d72" = 3.175
  dimension "d73" = 3.175
  dimension "d74" = 3.175
  dimension "d75" = 25.4
  dimension "d90" = 3.175
  dimension "d91" = 3.175
extrude "Extrusion2" cut sketch "Sketch3" against normal through all contours L39 L47 A44 L40 A45 L64 A61 L65 L36 L35 L37 A43 L70 A65 L71 L72 A67 L73 L38 A9 | L73 A67 L72 A43 | L71 A65 L70 A43 | A45 L65 A61 L64 | L26 A34 L27 A33 L56 A55 L55 A30 | L55 A55 L56 A33 L57 A54 L54 A30 | L54 A54 L57 A33 L34 A32 L46 A31 A46 A30 | L28 A35 L29 A36 L66 A62 L67 L68 A64 L69 L30 L31 L32 A37 L33 A48 | A36 L67 A62 L66 | A36 L69 A64 L68 | L41 A40 L43 A39 A47 A38 L45 A49 L44 A42 L42 A41
fillet "Fillet2" [suppressed]
properties part number "CL8-GB-001" material "Aluminum 6061"
